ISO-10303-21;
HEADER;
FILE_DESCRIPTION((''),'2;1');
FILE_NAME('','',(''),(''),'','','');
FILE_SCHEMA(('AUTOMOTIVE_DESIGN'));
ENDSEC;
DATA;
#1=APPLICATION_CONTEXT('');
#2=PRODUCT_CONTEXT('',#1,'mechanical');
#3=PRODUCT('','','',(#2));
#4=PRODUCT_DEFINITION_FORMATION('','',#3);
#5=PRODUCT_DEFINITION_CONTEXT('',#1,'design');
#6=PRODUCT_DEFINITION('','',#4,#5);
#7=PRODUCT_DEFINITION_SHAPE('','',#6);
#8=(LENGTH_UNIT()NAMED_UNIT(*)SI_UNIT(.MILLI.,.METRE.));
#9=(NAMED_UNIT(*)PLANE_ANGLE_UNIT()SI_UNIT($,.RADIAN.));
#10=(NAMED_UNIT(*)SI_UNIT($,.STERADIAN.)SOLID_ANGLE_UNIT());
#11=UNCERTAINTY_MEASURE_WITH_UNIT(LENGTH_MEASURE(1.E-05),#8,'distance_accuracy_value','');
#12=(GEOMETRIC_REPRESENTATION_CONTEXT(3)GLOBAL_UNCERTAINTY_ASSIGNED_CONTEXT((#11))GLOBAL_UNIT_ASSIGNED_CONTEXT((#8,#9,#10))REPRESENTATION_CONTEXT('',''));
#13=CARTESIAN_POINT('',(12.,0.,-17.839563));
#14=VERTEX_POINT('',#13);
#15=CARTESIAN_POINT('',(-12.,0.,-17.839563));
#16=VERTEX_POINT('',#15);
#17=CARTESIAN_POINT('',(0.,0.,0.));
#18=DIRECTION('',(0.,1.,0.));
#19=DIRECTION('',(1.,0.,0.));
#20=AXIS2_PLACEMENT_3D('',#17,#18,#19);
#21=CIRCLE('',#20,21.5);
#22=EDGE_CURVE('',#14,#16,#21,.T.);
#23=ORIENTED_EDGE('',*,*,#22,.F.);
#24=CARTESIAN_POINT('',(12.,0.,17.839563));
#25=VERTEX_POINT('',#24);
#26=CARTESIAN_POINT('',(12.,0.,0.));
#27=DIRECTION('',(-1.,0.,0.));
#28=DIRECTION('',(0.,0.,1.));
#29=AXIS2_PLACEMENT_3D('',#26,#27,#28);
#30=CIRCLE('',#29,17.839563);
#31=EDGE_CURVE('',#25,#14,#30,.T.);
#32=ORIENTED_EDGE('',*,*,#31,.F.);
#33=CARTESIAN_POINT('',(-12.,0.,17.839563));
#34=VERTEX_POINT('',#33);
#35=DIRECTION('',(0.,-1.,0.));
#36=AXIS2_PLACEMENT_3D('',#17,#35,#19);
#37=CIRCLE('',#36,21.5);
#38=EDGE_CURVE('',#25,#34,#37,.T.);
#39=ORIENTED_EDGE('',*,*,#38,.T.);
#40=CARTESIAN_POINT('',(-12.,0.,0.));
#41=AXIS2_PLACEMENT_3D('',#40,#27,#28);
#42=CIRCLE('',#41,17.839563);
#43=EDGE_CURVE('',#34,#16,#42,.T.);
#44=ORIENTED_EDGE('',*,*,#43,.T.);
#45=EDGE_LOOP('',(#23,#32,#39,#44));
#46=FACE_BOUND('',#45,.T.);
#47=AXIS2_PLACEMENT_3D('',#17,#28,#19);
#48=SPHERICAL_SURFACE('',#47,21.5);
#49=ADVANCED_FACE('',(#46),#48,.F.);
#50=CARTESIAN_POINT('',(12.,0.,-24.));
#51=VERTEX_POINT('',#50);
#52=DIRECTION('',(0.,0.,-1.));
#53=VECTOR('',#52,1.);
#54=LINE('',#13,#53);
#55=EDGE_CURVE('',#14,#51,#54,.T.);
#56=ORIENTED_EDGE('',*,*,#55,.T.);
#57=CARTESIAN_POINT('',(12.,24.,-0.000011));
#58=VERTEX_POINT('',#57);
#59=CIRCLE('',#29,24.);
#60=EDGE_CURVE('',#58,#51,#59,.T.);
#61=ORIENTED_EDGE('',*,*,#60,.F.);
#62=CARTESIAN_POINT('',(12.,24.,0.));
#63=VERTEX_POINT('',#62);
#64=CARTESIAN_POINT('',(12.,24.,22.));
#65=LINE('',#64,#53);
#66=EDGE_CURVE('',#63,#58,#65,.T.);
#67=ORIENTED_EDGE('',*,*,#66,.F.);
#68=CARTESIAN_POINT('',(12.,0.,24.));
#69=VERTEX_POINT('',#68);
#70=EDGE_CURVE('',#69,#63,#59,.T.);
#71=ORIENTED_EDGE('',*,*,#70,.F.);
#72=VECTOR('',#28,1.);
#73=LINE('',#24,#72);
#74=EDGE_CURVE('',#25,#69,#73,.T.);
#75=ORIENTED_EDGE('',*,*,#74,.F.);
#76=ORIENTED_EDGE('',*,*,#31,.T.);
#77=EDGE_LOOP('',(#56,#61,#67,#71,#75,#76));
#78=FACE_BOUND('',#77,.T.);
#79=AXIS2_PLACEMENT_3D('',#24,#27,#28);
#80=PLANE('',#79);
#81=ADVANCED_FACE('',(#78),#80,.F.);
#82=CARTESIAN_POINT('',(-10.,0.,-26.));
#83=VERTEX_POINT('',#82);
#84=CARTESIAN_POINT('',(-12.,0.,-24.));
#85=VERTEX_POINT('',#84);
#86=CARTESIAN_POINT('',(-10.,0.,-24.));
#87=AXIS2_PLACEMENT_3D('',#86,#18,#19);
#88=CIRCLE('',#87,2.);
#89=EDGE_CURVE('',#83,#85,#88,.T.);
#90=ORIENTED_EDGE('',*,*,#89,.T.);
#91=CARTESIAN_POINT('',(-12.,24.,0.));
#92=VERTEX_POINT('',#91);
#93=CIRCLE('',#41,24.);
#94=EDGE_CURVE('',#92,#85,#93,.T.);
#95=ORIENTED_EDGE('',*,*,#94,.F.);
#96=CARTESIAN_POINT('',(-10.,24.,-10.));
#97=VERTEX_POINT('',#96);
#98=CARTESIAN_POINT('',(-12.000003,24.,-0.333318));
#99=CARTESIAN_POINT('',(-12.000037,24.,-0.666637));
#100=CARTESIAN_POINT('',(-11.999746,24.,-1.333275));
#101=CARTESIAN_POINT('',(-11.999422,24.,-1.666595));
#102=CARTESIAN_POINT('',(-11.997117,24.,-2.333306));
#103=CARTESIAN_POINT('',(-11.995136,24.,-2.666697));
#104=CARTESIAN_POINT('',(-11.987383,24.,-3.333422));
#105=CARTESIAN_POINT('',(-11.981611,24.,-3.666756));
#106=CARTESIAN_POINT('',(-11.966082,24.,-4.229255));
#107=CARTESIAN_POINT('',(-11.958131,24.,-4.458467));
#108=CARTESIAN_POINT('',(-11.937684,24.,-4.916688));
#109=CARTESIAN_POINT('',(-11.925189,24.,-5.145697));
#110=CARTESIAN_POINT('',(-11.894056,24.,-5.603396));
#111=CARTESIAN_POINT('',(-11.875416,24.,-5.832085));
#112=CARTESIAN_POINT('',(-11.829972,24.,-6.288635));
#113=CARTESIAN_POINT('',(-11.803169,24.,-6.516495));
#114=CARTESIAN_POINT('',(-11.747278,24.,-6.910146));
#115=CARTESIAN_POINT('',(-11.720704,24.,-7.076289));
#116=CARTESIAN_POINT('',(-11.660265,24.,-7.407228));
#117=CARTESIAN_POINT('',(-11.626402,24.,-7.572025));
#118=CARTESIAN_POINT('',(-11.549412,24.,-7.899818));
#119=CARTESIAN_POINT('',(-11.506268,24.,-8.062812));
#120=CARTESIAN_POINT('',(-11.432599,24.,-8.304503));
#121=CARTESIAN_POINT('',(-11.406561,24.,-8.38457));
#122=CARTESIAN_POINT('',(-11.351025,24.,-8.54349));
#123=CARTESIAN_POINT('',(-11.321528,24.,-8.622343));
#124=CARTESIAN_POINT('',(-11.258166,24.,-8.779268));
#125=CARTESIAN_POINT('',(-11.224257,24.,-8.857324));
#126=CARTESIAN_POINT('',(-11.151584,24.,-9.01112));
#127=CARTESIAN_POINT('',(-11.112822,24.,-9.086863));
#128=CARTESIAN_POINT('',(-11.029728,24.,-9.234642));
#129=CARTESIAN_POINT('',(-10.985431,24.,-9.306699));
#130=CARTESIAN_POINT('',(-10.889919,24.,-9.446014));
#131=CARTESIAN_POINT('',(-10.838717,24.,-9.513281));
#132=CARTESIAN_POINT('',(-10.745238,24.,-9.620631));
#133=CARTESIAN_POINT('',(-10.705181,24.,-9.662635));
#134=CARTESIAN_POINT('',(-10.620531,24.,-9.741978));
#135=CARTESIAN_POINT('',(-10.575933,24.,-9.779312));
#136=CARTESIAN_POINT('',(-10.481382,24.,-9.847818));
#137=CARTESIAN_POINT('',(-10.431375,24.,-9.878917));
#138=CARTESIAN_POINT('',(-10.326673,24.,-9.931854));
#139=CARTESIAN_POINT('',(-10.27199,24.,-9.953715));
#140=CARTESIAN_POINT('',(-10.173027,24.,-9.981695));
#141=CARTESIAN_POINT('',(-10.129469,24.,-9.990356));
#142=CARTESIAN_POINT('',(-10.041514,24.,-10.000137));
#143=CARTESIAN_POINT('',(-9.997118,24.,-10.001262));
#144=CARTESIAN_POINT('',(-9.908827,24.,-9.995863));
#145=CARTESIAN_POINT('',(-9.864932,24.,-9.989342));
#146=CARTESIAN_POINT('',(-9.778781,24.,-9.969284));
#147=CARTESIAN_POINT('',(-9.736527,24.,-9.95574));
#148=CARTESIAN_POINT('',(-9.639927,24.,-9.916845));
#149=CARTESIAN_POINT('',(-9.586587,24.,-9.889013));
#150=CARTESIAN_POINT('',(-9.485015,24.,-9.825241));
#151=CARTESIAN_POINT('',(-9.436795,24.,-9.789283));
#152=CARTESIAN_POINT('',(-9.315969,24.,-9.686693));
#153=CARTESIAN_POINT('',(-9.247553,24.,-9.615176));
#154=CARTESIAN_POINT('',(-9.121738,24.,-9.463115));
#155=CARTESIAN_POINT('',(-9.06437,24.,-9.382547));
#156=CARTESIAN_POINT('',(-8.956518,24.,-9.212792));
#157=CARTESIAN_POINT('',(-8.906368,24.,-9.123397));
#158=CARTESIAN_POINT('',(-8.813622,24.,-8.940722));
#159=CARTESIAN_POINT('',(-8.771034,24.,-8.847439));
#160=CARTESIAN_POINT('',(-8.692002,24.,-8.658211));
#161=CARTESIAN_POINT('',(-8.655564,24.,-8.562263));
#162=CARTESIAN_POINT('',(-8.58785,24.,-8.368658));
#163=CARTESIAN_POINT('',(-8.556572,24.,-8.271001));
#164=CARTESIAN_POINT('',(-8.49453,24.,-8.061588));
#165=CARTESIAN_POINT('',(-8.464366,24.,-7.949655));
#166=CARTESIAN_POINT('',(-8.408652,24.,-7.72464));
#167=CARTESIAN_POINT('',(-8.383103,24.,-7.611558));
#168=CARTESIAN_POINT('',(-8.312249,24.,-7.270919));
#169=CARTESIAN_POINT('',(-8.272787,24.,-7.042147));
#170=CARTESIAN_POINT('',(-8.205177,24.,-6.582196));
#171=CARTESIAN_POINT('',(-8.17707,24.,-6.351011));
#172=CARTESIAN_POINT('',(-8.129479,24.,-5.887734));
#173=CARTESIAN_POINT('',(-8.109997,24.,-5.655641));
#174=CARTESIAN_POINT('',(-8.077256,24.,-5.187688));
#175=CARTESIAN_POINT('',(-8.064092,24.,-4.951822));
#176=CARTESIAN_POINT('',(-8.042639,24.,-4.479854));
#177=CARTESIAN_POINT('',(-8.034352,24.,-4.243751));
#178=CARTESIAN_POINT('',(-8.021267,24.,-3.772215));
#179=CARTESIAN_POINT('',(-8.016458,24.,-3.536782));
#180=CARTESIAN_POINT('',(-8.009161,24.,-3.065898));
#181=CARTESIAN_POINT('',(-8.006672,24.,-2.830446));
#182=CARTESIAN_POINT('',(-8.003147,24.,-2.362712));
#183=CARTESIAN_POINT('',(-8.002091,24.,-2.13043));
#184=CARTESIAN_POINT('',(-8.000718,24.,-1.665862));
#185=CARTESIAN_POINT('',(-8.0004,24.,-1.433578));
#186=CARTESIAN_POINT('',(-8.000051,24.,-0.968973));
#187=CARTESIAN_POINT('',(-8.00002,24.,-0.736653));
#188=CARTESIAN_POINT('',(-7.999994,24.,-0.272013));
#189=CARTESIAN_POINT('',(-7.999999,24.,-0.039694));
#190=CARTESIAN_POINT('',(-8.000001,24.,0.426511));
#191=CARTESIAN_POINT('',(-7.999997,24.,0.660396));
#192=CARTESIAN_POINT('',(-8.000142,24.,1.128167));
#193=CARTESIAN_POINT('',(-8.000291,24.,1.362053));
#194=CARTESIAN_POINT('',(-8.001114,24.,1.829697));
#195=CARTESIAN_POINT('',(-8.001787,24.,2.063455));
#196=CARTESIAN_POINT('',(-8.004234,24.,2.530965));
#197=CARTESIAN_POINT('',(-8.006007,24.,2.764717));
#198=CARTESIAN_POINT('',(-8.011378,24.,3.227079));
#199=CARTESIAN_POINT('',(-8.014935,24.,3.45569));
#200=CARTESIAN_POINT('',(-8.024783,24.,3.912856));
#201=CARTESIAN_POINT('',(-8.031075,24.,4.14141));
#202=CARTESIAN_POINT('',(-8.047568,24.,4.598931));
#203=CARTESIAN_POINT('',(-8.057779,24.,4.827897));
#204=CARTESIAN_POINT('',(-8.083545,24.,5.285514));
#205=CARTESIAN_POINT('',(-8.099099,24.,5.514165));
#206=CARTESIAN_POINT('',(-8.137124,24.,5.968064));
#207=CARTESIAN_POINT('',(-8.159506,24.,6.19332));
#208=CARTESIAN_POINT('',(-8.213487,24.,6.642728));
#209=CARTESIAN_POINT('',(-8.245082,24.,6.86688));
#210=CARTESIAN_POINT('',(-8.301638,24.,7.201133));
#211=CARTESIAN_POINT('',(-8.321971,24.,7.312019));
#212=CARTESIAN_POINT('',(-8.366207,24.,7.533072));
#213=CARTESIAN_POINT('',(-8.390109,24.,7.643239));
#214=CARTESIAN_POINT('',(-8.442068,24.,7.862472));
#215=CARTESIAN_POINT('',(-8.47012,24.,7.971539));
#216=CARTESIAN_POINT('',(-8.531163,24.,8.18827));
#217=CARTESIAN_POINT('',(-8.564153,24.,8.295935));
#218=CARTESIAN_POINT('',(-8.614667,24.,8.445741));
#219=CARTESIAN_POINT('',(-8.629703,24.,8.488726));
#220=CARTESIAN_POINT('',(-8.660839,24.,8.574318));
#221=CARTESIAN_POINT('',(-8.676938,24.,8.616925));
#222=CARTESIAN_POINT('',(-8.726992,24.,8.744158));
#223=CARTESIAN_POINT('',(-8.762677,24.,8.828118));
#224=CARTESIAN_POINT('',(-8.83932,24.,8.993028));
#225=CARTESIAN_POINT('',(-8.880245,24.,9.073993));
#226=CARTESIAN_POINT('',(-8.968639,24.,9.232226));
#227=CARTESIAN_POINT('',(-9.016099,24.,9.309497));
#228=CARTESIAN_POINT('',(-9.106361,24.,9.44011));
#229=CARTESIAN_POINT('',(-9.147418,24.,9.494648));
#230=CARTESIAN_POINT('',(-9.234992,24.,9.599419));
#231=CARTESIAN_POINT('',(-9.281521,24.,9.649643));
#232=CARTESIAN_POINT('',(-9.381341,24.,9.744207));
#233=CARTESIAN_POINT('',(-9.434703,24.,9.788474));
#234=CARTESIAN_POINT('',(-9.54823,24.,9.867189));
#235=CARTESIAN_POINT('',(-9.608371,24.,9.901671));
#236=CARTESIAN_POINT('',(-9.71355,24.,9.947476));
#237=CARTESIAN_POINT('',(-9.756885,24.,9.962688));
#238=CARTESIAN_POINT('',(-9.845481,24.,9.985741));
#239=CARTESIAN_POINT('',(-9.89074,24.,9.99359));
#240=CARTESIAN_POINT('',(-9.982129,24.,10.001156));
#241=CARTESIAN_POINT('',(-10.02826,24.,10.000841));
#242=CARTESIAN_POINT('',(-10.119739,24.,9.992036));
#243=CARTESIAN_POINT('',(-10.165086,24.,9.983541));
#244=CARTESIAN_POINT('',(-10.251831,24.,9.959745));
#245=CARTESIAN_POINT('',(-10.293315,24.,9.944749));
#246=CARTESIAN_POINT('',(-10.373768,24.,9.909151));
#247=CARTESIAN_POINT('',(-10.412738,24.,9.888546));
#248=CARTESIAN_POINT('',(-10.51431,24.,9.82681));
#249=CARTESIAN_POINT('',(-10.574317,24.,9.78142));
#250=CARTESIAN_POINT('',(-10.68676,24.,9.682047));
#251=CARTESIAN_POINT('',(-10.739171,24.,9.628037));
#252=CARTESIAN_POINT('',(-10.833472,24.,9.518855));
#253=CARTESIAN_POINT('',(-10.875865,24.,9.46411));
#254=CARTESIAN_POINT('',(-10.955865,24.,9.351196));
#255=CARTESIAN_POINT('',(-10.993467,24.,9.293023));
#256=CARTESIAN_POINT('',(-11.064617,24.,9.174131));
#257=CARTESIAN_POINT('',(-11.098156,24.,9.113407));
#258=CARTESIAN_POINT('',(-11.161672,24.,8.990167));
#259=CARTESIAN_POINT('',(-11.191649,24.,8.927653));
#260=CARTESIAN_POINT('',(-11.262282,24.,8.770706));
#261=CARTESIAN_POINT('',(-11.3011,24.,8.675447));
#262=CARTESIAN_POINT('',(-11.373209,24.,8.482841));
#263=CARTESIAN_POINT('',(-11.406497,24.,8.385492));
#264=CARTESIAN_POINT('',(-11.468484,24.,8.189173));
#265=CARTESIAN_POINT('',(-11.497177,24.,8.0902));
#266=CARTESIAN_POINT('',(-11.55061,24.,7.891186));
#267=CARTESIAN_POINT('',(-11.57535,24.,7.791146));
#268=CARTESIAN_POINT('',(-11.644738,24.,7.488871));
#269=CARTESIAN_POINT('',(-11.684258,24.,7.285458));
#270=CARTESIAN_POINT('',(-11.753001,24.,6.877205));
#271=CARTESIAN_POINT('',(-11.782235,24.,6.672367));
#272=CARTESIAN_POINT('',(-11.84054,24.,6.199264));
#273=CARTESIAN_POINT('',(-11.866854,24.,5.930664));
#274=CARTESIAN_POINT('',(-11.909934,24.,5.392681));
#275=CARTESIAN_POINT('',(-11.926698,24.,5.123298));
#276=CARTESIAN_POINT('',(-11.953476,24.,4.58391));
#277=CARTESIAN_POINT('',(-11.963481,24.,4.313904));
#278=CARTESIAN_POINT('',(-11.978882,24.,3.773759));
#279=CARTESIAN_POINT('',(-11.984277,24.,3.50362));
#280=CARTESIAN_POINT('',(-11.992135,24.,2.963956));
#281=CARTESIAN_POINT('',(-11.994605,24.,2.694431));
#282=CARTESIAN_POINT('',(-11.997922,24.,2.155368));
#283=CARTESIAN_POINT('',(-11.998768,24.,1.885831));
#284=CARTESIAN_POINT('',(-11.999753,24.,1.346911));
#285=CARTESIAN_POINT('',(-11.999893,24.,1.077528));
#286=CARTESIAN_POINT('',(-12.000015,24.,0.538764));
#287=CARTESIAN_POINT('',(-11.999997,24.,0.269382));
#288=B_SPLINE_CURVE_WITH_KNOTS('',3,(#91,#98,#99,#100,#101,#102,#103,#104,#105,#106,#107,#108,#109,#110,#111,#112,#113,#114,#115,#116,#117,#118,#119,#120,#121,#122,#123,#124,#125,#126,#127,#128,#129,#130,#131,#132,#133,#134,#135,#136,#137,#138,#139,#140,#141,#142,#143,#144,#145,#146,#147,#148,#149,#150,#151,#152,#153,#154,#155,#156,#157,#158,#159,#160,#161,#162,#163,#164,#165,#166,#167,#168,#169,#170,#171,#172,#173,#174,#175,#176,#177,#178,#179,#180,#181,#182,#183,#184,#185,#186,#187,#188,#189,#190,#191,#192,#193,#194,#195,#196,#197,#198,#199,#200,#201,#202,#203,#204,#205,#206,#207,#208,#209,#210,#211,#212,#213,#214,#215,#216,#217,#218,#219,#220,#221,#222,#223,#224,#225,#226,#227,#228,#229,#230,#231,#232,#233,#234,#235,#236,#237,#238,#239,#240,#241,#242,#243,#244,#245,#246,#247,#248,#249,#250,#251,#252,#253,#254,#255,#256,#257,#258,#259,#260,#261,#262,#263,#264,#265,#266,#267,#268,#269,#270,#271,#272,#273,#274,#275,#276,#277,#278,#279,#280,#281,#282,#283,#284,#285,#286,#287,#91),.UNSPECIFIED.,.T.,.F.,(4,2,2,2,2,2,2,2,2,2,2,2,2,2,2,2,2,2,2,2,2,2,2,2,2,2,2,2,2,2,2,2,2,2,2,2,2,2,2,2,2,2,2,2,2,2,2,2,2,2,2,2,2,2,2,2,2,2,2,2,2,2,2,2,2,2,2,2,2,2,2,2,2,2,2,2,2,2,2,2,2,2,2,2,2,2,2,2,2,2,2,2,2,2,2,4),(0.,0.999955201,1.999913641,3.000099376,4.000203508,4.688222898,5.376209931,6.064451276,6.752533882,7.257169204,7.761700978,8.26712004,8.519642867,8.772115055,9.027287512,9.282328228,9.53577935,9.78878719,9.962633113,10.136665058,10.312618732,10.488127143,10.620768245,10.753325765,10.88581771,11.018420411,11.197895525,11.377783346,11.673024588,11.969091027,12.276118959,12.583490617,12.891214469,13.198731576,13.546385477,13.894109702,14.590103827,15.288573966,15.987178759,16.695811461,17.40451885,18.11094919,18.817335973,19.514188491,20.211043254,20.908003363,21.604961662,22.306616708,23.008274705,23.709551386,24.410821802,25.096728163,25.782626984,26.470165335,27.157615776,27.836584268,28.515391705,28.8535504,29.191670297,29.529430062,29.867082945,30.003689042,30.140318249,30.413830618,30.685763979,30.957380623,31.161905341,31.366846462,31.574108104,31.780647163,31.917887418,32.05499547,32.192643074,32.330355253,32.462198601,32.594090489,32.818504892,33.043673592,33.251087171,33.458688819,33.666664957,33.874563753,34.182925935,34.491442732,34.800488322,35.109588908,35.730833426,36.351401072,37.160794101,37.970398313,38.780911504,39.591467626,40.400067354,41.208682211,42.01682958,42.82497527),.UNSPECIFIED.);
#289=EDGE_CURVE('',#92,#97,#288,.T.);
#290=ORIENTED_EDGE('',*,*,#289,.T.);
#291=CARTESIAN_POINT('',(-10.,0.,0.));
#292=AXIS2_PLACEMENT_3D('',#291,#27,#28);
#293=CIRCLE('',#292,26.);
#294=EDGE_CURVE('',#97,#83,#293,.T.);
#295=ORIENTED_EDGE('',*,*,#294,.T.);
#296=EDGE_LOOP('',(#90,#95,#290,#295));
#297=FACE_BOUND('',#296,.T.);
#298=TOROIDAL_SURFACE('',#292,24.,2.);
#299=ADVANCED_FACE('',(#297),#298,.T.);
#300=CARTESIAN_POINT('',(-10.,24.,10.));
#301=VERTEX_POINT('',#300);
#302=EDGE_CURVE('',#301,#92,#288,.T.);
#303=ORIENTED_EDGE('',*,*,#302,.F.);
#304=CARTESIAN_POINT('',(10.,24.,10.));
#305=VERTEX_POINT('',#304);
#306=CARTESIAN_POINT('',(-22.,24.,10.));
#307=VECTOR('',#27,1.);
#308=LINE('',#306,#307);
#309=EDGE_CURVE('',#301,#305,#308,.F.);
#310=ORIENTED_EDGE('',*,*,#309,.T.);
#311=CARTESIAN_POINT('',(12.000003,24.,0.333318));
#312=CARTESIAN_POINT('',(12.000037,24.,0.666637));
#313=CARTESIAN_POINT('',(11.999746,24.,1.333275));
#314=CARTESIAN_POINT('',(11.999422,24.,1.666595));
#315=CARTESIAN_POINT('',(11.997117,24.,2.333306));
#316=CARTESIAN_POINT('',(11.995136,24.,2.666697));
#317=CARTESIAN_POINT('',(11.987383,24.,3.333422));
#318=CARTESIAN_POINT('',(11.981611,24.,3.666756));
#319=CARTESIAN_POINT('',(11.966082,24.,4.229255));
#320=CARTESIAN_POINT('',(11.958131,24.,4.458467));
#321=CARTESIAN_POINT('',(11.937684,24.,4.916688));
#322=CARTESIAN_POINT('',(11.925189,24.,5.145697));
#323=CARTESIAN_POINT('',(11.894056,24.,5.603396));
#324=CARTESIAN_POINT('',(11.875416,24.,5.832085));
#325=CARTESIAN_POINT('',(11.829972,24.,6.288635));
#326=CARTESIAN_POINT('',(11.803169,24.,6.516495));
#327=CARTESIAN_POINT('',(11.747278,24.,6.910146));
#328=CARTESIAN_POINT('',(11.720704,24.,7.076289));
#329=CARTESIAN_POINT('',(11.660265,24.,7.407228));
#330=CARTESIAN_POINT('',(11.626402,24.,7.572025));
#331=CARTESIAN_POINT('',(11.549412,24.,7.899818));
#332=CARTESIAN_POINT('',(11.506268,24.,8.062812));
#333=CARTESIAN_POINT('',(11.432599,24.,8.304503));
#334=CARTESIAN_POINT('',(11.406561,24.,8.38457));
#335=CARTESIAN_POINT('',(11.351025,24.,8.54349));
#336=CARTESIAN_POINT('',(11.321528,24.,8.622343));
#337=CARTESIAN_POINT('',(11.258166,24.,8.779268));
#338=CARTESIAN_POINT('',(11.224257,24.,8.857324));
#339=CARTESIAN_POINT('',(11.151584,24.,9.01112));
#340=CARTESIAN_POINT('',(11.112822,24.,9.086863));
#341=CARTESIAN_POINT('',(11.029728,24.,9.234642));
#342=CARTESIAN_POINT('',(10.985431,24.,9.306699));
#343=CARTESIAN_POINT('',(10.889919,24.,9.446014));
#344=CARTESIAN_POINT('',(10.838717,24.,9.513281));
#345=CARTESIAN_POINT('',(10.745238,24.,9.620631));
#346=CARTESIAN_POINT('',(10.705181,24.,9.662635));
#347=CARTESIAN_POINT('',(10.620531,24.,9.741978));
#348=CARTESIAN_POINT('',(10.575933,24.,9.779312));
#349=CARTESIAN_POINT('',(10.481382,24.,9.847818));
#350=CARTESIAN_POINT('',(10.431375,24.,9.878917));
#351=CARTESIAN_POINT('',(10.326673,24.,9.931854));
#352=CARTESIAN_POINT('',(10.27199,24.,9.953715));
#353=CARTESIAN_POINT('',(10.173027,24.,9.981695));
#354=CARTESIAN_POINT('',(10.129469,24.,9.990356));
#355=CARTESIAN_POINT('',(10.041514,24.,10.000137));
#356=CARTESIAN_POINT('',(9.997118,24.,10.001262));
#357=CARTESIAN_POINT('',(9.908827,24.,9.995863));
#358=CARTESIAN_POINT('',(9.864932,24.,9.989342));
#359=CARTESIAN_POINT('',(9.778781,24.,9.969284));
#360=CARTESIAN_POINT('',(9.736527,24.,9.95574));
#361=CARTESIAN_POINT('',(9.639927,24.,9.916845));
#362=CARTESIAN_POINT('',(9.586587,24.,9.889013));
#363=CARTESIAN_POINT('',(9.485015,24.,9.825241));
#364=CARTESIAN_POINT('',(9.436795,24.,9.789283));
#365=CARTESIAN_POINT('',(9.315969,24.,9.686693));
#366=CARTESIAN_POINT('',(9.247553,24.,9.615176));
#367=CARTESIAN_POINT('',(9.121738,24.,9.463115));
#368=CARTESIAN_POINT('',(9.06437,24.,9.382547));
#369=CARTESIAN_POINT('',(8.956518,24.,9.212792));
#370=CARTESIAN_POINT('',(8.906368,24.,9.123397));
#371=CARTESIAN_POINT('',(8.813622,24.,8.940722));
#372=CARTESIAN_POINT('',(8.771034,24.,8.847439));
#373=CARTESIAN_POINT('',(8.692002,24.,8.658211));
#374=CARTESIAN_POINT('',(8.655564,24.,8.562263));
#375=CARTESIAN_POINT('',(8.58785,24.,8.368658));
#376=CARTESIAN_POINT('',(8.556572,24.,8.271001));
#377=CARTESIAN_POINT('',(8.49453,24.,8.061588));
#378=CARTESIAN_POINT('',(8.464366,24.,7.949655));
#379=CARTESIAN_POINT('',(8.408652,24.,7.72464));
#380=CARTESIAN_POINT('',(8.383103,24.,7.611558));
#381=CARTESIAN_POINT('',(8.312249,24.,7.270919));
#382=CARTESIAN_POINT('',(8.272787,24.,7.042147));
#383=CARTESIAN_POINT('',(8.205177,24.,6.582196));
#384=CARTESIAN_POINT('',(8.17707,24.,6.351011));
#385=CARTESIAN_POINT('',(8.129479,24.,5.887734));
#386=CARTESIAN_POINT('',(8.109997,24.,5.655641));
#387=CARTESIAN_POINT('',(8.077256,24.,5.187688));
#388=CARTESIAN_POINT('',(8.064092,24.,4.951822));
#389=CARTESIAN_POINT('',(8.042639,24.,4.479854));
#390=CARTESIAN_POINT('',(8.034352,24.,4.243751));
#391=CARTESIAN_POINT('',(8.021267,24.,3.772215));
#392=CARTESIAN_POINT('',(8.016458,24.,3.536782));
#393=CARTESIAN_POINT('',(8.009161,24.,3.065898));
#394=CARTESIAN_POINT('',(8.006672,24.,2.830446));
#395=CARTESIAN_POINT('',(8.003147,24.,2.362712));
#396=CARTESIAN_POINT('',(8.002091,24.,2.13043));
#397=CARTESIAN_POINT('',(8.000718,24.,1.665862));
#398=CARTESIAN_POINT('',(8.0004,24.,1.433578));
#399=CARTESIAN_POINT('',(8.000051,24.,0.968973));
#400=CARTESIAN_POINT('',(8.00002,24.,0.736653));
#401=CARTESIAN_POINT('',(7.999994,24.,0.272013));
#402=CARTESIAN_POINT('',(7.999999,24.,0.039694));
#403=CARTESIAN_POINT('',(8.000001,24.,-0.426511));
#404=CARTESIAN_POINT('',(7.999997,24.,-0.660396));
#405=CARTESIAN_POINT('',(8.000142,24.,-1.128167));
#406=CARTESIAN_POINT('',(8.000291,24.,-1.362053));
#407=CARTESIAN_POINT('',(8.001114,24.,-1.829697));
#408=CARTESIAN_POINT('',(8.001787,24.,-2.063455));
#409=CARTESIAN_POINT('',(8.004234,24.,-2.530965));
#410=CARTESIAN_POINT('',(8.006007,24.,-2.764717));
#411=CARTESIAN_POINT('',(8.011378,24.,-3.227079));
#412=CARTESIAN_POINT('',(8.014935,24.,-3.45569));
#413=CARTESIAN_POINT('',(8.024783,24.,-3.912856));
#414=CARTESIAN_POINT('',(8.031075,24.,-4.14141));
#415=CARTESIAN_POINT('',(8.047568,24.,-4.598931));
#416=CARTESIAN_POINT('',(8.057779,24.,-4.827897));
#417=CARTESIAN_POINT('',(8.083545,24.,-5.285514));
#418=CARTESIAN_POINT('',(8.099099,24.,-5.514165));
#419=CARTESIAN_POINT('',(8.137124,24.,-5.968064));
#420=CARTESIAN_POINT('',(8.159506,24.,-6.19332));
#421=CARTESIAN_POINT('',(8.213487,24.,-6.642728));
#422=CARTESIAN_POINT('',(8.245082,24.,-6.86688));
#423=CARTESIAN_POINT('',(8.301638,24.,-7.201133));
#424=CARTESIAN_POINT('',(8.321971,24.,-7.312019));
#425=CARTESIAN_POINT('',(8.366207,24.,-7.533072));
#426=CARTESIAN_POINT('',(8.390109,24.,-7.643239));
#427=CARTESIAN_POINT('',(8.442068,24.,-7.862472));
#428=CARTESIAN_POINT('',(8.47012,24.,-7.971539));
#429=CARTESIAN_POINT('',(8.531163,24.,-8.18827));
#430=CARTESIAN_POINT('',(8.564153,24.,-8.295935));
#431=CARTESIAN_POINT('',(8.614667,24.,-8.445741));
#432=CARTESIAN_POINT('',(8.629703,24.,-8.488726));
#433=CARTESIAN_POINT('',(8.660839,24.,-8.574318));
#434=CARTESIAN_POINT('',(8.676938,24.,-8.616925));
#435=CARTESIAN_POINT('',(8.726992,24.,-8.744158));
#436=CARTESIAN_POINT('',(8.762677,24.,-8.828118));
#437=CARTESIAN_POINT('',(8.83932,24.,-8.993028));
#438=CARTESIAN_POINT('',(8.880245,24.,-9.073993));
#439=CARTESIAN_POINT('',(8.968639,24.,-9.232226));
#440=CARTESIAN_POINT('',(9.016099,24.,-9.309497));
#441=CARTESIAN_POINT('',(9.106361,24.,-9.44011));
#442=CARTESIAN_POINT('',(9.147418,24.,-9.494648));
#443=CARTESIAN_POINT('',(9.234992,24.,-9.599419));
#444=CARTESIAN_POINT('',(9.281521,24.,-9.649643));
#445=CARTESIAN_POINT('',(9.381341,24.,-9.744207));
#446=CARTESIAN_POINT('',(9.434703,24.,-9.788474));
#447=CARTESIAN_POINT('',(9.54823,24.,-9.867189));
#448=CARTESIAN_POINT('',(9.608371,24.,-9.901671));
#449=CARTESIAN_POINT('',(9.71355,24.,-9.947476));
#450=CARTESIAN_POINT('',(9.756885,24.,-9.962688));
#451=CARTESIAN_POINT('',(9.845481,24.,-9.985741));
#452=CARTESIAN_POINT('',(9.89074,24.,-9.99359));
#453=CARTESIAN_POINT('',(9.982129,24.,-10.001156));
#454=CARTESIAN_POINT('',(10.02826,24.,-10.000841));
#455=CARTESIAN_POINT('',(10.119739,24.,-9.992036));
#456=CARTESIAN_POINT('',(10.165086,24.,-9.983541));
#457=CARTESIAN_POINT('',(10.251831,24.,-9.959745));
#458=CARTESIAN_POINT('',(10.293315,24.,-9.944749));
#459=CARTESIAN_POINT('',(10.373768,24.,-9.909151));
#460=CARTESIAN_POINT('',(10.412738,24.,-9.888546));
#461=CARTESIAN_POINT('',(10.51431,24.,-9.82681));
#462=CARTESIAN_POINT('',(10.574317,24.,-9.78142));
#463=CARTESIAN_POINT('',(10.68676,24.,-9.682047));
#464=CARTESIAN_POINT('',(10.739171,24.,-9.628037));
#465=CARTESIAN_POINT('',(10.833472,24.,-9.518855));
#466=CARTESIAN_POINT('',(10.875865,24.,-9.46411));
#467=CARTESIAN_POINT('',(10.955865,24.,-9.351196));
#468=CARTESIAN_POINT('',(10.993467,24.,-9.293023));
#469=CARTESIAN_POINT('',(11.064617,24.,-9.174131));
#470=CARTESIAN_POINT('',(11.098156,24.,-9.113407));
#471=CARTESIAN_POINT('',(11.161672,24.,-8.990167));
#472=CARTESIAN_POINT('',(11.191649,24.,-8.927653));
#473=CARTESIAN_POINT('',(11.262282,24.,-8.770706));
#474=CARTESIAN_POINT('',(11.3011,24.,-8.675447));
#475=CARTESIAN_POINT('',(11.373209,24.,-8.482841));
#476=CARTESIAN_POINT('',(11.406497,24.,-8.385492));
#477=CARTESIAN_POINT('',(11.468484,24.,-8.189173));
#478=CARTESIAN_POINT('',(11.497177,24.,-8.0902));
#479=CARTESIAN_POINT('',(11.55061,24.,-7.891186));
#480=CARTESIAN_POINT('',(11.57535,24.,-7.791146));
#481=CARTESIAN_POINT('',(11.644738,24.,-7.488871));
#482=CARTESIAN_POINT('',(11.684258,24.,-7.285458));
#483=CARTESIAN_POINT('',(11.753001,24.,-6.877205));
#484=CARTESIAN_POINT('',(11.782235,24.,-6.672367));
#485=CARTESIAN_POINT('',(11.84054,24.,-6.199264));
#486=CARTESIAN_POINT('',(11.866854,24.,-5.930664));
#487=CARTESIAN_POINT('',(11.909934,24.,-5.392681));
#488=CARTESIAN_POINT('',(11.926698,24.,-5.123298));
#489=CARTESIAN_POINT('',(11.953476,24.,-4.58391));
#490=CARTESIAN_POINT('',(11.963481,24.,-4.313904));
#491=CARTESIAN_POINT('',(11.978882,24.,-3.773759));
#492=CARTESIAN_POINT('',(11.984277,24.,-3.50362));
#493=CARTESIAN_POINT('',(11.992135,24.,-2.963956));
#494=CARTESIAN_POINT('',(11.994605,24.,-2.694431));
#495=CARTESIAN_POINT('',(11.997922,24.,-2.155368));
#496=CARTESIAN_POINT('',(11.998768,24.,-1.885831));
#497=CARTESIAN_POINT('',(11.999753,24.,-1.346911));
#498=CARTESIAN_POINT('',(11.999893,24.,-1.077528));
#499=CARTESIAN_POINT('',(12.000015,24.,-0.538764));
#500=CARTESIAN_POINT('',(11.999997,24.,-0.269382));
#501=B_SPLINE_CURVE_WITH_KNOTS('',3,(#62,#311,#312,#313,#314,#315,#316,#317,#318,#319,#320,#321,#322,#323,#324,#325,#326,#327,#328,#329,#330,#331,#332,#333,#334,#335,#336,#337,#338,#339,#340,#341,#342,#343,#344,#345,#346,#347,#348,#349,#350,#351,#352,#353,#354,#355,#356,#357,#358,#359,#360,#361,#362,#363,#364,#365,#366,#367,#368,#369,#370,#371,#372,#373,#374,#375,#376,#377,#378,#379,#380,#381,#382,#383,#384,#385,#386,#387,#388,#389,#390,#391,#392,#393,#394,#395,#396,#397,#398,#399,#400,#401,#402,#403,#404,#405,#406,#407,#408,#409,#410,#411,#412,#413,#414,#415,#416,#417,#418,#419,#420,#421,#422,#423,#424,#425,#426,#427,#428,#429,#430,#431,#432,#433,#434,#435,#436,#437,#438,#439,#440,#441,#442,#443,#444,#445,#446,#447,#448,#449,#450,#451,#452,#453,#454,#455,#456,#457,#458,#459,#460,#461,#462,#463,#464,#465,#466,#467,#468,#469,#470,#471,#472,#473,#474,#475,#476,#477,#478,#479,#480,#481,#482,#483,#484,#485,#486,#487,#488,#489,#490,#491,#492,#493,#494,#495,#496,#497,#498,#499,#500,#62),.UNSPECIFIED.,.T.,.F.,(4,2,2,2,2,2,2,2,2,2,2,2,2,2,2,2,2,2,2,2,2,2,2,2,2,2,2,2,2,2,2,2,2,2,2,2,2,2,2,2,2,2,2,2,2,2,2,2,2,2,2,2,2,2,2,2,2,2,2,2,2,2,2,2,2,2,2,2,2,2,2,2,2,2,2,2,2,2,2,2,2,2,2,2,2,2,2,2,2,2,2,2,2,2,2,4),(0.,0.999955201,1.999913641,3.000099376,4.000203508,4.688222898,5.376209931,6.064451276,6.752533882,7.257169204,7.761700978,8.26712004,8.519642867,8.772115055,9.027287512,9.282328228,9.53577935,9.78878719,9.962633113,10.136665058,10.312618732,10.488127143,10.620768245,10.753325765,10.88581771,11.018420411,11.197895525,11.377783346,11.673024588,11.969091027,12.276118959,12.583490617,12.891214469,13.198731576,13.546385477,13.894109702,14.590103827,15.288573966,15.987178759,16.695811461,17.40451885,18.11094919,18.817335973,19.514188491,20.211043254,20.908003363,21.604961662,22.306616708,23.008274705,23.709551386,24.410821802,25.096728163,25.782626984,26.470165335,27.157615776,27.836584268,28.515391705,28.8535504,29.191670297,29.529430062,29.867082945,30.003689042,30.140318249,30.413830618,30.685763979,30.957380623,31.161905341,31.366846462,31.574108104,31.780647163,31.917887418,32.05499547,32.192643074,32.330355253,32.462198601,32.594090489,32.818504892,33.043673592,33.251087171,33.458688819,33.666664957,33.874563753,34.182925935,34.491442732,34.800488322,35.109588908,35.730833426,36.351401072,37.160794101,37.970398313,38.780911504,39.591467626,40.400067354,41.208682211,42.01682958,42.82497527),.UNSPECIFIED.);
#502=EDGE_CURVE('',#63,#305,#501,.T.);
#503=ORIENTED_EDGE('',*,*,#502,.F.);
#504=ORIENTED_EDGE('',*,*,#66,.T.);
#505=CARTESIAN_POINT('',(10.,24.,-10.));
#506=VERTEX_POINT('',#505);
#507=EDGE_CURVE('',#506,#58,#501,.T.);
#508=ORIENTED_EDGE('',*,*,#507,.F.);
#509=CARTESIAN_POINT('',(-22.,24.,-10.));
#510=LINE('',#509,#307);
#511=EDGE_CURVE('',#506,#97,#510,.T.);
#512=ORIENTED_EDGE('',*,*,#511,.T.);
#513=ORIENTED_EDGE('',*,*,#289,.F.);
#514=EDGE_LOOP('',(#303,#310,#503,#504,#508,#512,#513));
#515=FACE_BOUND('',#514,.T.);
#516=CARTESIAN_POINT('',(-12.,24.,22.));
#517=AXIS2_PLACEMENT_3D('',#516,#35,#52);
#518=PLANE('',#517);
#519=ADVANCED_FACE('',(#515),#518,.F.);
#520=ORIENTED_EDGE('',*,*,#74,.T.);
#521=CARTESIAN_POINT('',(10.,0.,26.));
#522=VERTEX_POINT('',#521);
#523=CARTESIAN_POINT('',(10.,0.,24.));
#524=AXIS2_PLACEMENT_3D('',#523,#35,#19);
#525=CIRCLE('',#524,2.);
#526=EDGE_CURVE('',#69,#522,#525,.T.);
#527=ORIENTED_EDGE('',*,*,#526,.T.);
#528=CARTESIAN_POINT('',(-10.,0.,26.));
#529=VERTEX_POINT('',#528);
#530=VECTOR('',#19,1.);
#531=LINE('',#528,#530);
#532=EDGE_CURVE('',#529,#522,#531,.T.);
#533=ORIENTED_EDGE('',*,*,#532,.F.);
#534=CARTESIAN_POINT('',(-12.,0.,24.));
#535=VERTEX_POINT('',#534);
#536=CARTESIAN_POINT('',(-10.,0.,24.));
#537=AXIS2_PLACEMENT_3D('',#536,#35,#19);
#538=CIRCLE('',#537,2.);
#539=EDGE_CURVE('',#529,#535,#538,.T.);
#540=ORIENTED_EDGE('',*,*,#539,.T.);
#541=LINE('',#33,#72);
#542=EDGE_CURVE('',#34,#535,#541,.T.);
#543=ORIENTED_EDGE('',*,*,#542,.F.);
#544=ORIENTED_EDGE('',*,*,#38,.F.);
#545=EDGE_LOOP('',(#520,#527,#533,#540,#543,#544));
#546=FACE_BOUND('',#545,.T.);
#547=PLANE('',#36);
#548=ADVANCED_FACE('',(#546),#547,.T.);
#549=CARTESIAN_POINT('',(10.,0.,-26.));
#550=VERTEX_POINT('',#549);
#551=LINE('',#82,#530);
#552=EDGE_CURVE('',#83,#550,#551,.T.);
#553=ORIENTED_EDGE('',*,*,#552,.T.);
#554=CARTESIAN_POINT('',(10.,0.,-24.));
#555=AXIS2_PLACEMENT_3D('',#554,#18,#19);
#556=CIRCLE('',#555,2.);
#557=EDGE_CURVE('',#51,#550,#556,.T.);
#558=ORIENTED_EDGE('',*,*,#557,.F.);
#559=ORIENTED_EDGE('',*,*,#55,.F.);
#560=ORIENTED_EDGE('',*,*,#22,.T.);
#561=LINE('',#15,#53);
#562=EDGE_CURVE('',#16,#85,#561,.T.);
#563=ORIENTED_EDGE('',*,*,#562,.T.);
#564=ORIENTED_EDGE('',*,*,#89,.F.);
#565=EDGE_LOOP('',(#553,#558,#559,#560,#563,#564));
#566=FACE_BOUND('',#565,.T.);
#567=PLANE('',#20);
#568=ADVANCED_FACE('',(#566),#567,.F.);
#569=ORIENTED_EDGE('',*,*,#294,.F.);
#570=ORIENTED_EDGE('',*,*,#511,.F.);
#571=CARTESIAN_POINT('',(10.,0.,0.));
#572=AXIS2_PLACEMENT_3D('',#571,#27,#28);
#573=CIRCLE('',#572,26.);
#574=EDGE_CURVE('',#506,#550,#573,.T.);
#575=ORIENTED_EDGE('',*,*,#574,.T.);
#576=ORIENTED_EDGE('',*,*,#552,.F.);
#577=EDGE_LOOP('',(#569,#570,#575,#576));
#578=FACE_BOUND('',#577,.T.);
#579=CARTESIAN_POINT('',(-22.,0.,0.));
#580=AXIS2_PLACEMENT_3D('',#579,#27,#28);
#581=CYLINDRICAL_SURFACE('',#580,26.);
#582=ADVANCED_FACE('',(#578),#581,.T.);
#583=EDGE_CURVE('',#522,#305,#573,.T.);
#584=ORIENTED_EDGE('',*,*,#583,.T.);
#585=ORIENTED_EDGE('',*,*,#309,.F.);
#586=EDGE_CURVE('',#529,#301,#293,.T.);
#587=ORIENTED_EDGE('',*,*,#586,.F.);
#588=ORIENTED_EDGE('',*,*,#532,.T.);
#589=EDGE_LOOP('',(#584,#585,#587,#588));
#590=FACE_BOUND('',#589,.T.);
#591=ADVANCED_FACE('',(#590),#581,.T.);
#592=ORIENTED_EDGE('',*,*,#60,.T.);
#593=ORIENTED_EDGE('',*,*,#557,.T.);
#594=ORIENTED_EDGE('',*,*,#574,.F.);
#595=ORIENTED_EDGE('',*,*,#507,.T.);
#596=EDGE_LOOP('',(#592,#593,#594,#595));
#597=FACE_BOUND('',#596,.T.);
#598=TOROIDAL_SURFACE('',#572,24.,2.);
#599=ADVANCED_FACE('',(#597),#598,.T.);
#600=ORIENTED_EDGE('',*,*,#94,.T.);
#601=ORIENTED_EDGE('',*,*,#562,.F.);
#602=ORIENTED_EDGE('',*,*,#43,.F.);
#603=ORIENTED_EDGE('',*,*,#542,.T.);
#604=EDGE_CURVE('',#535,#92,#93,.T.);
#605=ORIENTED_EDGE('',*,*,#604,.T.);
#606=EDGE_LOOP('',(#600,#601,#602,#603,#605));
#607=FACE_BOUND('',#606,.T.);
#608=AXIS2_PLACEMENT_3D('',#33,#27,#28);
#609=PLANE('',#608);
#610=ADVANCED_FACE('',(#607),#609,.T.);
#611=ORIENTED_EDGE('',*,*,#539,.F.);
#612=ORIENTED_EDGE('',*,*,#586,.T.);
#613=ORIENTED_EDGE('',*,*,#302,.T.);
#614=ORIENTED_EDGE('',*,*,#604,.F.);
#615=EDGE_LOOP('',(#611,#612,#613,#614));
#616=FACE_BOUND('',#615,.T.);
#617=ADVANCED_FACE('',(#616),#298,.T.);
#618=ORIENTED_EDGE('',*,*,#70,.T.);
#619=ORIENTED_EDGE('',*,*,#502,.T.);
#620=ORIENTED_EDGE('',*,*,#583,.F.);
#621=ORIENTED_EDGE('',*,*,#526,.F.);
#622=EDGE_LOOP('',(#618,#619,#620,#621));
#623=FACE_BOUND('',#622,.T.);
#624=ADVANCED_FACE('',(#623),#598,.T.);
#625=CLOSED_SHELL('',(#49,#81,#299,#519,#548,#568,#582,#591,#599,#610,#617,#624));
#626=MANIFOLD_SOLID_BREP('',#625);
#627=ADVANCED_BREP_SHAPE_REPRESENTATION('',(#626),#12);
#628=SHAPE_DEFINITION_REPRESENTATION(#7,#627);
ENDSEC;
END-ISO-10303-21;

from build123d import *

# Parameters (mm, degrees)
BASE_R_VOLUTION_ANGLE   = 180
ESQUISSE2_W             = 44
ESQUISSE2_H             = 6
ENL_V_MAT_EXTRU_1_DEPTH = 25


with BuildPart() as part:
    # Esquisse1 → Base-Révolution (revolve, symmetric)
    with BuildSketch(Plane.XY) as base_r_volution_sk:
        with BuildLine():
            Line((-12, 17.839562775), (-12, 24))
            ThreePointArc((-12, 24), (-11.414213562, 25.414213562), (-10, 26))
            Line((-10, 26), (10, 26))
            ThreePointArc((10, 26), (11.414213562, 25.414213562), (12, 24))
            Line((12, 24), (12, 17.839562775))
            ThreePointArc((12, 17.839562775), (0, 21.5), (-12, 17.839562775))
        make_face()
    revolve(axis=Axis((-22, 0, 0), (1, 0, 0)), revolution_arc=BASE_R_VOLUTION_ANGLE / 2)
    revolve(base_r_volution_sk.sketch, axis=Axis((-22, 0, 0), (-1, 0, 0)), revolution_arc=BASE_R_VOLUTION_ANGLE / 2)

    # Esquisse2 → Enlèv. mat.-Extru.1 (cut, through all)
    with BuildSketch(Plane(origin=(12, 0, 0), x_dir=(0, 0, -1), z_dir=(1, 0, 0))):
        with Locations((0, 27)):
            Rectangle(ESQUISSE2_W, ESQUISSE2_H)
    extrude(amount=-ENL_V_MAT_EXTRU_1_DEPTH, mode=Mode.SUBTRACT)


solid = part.part
